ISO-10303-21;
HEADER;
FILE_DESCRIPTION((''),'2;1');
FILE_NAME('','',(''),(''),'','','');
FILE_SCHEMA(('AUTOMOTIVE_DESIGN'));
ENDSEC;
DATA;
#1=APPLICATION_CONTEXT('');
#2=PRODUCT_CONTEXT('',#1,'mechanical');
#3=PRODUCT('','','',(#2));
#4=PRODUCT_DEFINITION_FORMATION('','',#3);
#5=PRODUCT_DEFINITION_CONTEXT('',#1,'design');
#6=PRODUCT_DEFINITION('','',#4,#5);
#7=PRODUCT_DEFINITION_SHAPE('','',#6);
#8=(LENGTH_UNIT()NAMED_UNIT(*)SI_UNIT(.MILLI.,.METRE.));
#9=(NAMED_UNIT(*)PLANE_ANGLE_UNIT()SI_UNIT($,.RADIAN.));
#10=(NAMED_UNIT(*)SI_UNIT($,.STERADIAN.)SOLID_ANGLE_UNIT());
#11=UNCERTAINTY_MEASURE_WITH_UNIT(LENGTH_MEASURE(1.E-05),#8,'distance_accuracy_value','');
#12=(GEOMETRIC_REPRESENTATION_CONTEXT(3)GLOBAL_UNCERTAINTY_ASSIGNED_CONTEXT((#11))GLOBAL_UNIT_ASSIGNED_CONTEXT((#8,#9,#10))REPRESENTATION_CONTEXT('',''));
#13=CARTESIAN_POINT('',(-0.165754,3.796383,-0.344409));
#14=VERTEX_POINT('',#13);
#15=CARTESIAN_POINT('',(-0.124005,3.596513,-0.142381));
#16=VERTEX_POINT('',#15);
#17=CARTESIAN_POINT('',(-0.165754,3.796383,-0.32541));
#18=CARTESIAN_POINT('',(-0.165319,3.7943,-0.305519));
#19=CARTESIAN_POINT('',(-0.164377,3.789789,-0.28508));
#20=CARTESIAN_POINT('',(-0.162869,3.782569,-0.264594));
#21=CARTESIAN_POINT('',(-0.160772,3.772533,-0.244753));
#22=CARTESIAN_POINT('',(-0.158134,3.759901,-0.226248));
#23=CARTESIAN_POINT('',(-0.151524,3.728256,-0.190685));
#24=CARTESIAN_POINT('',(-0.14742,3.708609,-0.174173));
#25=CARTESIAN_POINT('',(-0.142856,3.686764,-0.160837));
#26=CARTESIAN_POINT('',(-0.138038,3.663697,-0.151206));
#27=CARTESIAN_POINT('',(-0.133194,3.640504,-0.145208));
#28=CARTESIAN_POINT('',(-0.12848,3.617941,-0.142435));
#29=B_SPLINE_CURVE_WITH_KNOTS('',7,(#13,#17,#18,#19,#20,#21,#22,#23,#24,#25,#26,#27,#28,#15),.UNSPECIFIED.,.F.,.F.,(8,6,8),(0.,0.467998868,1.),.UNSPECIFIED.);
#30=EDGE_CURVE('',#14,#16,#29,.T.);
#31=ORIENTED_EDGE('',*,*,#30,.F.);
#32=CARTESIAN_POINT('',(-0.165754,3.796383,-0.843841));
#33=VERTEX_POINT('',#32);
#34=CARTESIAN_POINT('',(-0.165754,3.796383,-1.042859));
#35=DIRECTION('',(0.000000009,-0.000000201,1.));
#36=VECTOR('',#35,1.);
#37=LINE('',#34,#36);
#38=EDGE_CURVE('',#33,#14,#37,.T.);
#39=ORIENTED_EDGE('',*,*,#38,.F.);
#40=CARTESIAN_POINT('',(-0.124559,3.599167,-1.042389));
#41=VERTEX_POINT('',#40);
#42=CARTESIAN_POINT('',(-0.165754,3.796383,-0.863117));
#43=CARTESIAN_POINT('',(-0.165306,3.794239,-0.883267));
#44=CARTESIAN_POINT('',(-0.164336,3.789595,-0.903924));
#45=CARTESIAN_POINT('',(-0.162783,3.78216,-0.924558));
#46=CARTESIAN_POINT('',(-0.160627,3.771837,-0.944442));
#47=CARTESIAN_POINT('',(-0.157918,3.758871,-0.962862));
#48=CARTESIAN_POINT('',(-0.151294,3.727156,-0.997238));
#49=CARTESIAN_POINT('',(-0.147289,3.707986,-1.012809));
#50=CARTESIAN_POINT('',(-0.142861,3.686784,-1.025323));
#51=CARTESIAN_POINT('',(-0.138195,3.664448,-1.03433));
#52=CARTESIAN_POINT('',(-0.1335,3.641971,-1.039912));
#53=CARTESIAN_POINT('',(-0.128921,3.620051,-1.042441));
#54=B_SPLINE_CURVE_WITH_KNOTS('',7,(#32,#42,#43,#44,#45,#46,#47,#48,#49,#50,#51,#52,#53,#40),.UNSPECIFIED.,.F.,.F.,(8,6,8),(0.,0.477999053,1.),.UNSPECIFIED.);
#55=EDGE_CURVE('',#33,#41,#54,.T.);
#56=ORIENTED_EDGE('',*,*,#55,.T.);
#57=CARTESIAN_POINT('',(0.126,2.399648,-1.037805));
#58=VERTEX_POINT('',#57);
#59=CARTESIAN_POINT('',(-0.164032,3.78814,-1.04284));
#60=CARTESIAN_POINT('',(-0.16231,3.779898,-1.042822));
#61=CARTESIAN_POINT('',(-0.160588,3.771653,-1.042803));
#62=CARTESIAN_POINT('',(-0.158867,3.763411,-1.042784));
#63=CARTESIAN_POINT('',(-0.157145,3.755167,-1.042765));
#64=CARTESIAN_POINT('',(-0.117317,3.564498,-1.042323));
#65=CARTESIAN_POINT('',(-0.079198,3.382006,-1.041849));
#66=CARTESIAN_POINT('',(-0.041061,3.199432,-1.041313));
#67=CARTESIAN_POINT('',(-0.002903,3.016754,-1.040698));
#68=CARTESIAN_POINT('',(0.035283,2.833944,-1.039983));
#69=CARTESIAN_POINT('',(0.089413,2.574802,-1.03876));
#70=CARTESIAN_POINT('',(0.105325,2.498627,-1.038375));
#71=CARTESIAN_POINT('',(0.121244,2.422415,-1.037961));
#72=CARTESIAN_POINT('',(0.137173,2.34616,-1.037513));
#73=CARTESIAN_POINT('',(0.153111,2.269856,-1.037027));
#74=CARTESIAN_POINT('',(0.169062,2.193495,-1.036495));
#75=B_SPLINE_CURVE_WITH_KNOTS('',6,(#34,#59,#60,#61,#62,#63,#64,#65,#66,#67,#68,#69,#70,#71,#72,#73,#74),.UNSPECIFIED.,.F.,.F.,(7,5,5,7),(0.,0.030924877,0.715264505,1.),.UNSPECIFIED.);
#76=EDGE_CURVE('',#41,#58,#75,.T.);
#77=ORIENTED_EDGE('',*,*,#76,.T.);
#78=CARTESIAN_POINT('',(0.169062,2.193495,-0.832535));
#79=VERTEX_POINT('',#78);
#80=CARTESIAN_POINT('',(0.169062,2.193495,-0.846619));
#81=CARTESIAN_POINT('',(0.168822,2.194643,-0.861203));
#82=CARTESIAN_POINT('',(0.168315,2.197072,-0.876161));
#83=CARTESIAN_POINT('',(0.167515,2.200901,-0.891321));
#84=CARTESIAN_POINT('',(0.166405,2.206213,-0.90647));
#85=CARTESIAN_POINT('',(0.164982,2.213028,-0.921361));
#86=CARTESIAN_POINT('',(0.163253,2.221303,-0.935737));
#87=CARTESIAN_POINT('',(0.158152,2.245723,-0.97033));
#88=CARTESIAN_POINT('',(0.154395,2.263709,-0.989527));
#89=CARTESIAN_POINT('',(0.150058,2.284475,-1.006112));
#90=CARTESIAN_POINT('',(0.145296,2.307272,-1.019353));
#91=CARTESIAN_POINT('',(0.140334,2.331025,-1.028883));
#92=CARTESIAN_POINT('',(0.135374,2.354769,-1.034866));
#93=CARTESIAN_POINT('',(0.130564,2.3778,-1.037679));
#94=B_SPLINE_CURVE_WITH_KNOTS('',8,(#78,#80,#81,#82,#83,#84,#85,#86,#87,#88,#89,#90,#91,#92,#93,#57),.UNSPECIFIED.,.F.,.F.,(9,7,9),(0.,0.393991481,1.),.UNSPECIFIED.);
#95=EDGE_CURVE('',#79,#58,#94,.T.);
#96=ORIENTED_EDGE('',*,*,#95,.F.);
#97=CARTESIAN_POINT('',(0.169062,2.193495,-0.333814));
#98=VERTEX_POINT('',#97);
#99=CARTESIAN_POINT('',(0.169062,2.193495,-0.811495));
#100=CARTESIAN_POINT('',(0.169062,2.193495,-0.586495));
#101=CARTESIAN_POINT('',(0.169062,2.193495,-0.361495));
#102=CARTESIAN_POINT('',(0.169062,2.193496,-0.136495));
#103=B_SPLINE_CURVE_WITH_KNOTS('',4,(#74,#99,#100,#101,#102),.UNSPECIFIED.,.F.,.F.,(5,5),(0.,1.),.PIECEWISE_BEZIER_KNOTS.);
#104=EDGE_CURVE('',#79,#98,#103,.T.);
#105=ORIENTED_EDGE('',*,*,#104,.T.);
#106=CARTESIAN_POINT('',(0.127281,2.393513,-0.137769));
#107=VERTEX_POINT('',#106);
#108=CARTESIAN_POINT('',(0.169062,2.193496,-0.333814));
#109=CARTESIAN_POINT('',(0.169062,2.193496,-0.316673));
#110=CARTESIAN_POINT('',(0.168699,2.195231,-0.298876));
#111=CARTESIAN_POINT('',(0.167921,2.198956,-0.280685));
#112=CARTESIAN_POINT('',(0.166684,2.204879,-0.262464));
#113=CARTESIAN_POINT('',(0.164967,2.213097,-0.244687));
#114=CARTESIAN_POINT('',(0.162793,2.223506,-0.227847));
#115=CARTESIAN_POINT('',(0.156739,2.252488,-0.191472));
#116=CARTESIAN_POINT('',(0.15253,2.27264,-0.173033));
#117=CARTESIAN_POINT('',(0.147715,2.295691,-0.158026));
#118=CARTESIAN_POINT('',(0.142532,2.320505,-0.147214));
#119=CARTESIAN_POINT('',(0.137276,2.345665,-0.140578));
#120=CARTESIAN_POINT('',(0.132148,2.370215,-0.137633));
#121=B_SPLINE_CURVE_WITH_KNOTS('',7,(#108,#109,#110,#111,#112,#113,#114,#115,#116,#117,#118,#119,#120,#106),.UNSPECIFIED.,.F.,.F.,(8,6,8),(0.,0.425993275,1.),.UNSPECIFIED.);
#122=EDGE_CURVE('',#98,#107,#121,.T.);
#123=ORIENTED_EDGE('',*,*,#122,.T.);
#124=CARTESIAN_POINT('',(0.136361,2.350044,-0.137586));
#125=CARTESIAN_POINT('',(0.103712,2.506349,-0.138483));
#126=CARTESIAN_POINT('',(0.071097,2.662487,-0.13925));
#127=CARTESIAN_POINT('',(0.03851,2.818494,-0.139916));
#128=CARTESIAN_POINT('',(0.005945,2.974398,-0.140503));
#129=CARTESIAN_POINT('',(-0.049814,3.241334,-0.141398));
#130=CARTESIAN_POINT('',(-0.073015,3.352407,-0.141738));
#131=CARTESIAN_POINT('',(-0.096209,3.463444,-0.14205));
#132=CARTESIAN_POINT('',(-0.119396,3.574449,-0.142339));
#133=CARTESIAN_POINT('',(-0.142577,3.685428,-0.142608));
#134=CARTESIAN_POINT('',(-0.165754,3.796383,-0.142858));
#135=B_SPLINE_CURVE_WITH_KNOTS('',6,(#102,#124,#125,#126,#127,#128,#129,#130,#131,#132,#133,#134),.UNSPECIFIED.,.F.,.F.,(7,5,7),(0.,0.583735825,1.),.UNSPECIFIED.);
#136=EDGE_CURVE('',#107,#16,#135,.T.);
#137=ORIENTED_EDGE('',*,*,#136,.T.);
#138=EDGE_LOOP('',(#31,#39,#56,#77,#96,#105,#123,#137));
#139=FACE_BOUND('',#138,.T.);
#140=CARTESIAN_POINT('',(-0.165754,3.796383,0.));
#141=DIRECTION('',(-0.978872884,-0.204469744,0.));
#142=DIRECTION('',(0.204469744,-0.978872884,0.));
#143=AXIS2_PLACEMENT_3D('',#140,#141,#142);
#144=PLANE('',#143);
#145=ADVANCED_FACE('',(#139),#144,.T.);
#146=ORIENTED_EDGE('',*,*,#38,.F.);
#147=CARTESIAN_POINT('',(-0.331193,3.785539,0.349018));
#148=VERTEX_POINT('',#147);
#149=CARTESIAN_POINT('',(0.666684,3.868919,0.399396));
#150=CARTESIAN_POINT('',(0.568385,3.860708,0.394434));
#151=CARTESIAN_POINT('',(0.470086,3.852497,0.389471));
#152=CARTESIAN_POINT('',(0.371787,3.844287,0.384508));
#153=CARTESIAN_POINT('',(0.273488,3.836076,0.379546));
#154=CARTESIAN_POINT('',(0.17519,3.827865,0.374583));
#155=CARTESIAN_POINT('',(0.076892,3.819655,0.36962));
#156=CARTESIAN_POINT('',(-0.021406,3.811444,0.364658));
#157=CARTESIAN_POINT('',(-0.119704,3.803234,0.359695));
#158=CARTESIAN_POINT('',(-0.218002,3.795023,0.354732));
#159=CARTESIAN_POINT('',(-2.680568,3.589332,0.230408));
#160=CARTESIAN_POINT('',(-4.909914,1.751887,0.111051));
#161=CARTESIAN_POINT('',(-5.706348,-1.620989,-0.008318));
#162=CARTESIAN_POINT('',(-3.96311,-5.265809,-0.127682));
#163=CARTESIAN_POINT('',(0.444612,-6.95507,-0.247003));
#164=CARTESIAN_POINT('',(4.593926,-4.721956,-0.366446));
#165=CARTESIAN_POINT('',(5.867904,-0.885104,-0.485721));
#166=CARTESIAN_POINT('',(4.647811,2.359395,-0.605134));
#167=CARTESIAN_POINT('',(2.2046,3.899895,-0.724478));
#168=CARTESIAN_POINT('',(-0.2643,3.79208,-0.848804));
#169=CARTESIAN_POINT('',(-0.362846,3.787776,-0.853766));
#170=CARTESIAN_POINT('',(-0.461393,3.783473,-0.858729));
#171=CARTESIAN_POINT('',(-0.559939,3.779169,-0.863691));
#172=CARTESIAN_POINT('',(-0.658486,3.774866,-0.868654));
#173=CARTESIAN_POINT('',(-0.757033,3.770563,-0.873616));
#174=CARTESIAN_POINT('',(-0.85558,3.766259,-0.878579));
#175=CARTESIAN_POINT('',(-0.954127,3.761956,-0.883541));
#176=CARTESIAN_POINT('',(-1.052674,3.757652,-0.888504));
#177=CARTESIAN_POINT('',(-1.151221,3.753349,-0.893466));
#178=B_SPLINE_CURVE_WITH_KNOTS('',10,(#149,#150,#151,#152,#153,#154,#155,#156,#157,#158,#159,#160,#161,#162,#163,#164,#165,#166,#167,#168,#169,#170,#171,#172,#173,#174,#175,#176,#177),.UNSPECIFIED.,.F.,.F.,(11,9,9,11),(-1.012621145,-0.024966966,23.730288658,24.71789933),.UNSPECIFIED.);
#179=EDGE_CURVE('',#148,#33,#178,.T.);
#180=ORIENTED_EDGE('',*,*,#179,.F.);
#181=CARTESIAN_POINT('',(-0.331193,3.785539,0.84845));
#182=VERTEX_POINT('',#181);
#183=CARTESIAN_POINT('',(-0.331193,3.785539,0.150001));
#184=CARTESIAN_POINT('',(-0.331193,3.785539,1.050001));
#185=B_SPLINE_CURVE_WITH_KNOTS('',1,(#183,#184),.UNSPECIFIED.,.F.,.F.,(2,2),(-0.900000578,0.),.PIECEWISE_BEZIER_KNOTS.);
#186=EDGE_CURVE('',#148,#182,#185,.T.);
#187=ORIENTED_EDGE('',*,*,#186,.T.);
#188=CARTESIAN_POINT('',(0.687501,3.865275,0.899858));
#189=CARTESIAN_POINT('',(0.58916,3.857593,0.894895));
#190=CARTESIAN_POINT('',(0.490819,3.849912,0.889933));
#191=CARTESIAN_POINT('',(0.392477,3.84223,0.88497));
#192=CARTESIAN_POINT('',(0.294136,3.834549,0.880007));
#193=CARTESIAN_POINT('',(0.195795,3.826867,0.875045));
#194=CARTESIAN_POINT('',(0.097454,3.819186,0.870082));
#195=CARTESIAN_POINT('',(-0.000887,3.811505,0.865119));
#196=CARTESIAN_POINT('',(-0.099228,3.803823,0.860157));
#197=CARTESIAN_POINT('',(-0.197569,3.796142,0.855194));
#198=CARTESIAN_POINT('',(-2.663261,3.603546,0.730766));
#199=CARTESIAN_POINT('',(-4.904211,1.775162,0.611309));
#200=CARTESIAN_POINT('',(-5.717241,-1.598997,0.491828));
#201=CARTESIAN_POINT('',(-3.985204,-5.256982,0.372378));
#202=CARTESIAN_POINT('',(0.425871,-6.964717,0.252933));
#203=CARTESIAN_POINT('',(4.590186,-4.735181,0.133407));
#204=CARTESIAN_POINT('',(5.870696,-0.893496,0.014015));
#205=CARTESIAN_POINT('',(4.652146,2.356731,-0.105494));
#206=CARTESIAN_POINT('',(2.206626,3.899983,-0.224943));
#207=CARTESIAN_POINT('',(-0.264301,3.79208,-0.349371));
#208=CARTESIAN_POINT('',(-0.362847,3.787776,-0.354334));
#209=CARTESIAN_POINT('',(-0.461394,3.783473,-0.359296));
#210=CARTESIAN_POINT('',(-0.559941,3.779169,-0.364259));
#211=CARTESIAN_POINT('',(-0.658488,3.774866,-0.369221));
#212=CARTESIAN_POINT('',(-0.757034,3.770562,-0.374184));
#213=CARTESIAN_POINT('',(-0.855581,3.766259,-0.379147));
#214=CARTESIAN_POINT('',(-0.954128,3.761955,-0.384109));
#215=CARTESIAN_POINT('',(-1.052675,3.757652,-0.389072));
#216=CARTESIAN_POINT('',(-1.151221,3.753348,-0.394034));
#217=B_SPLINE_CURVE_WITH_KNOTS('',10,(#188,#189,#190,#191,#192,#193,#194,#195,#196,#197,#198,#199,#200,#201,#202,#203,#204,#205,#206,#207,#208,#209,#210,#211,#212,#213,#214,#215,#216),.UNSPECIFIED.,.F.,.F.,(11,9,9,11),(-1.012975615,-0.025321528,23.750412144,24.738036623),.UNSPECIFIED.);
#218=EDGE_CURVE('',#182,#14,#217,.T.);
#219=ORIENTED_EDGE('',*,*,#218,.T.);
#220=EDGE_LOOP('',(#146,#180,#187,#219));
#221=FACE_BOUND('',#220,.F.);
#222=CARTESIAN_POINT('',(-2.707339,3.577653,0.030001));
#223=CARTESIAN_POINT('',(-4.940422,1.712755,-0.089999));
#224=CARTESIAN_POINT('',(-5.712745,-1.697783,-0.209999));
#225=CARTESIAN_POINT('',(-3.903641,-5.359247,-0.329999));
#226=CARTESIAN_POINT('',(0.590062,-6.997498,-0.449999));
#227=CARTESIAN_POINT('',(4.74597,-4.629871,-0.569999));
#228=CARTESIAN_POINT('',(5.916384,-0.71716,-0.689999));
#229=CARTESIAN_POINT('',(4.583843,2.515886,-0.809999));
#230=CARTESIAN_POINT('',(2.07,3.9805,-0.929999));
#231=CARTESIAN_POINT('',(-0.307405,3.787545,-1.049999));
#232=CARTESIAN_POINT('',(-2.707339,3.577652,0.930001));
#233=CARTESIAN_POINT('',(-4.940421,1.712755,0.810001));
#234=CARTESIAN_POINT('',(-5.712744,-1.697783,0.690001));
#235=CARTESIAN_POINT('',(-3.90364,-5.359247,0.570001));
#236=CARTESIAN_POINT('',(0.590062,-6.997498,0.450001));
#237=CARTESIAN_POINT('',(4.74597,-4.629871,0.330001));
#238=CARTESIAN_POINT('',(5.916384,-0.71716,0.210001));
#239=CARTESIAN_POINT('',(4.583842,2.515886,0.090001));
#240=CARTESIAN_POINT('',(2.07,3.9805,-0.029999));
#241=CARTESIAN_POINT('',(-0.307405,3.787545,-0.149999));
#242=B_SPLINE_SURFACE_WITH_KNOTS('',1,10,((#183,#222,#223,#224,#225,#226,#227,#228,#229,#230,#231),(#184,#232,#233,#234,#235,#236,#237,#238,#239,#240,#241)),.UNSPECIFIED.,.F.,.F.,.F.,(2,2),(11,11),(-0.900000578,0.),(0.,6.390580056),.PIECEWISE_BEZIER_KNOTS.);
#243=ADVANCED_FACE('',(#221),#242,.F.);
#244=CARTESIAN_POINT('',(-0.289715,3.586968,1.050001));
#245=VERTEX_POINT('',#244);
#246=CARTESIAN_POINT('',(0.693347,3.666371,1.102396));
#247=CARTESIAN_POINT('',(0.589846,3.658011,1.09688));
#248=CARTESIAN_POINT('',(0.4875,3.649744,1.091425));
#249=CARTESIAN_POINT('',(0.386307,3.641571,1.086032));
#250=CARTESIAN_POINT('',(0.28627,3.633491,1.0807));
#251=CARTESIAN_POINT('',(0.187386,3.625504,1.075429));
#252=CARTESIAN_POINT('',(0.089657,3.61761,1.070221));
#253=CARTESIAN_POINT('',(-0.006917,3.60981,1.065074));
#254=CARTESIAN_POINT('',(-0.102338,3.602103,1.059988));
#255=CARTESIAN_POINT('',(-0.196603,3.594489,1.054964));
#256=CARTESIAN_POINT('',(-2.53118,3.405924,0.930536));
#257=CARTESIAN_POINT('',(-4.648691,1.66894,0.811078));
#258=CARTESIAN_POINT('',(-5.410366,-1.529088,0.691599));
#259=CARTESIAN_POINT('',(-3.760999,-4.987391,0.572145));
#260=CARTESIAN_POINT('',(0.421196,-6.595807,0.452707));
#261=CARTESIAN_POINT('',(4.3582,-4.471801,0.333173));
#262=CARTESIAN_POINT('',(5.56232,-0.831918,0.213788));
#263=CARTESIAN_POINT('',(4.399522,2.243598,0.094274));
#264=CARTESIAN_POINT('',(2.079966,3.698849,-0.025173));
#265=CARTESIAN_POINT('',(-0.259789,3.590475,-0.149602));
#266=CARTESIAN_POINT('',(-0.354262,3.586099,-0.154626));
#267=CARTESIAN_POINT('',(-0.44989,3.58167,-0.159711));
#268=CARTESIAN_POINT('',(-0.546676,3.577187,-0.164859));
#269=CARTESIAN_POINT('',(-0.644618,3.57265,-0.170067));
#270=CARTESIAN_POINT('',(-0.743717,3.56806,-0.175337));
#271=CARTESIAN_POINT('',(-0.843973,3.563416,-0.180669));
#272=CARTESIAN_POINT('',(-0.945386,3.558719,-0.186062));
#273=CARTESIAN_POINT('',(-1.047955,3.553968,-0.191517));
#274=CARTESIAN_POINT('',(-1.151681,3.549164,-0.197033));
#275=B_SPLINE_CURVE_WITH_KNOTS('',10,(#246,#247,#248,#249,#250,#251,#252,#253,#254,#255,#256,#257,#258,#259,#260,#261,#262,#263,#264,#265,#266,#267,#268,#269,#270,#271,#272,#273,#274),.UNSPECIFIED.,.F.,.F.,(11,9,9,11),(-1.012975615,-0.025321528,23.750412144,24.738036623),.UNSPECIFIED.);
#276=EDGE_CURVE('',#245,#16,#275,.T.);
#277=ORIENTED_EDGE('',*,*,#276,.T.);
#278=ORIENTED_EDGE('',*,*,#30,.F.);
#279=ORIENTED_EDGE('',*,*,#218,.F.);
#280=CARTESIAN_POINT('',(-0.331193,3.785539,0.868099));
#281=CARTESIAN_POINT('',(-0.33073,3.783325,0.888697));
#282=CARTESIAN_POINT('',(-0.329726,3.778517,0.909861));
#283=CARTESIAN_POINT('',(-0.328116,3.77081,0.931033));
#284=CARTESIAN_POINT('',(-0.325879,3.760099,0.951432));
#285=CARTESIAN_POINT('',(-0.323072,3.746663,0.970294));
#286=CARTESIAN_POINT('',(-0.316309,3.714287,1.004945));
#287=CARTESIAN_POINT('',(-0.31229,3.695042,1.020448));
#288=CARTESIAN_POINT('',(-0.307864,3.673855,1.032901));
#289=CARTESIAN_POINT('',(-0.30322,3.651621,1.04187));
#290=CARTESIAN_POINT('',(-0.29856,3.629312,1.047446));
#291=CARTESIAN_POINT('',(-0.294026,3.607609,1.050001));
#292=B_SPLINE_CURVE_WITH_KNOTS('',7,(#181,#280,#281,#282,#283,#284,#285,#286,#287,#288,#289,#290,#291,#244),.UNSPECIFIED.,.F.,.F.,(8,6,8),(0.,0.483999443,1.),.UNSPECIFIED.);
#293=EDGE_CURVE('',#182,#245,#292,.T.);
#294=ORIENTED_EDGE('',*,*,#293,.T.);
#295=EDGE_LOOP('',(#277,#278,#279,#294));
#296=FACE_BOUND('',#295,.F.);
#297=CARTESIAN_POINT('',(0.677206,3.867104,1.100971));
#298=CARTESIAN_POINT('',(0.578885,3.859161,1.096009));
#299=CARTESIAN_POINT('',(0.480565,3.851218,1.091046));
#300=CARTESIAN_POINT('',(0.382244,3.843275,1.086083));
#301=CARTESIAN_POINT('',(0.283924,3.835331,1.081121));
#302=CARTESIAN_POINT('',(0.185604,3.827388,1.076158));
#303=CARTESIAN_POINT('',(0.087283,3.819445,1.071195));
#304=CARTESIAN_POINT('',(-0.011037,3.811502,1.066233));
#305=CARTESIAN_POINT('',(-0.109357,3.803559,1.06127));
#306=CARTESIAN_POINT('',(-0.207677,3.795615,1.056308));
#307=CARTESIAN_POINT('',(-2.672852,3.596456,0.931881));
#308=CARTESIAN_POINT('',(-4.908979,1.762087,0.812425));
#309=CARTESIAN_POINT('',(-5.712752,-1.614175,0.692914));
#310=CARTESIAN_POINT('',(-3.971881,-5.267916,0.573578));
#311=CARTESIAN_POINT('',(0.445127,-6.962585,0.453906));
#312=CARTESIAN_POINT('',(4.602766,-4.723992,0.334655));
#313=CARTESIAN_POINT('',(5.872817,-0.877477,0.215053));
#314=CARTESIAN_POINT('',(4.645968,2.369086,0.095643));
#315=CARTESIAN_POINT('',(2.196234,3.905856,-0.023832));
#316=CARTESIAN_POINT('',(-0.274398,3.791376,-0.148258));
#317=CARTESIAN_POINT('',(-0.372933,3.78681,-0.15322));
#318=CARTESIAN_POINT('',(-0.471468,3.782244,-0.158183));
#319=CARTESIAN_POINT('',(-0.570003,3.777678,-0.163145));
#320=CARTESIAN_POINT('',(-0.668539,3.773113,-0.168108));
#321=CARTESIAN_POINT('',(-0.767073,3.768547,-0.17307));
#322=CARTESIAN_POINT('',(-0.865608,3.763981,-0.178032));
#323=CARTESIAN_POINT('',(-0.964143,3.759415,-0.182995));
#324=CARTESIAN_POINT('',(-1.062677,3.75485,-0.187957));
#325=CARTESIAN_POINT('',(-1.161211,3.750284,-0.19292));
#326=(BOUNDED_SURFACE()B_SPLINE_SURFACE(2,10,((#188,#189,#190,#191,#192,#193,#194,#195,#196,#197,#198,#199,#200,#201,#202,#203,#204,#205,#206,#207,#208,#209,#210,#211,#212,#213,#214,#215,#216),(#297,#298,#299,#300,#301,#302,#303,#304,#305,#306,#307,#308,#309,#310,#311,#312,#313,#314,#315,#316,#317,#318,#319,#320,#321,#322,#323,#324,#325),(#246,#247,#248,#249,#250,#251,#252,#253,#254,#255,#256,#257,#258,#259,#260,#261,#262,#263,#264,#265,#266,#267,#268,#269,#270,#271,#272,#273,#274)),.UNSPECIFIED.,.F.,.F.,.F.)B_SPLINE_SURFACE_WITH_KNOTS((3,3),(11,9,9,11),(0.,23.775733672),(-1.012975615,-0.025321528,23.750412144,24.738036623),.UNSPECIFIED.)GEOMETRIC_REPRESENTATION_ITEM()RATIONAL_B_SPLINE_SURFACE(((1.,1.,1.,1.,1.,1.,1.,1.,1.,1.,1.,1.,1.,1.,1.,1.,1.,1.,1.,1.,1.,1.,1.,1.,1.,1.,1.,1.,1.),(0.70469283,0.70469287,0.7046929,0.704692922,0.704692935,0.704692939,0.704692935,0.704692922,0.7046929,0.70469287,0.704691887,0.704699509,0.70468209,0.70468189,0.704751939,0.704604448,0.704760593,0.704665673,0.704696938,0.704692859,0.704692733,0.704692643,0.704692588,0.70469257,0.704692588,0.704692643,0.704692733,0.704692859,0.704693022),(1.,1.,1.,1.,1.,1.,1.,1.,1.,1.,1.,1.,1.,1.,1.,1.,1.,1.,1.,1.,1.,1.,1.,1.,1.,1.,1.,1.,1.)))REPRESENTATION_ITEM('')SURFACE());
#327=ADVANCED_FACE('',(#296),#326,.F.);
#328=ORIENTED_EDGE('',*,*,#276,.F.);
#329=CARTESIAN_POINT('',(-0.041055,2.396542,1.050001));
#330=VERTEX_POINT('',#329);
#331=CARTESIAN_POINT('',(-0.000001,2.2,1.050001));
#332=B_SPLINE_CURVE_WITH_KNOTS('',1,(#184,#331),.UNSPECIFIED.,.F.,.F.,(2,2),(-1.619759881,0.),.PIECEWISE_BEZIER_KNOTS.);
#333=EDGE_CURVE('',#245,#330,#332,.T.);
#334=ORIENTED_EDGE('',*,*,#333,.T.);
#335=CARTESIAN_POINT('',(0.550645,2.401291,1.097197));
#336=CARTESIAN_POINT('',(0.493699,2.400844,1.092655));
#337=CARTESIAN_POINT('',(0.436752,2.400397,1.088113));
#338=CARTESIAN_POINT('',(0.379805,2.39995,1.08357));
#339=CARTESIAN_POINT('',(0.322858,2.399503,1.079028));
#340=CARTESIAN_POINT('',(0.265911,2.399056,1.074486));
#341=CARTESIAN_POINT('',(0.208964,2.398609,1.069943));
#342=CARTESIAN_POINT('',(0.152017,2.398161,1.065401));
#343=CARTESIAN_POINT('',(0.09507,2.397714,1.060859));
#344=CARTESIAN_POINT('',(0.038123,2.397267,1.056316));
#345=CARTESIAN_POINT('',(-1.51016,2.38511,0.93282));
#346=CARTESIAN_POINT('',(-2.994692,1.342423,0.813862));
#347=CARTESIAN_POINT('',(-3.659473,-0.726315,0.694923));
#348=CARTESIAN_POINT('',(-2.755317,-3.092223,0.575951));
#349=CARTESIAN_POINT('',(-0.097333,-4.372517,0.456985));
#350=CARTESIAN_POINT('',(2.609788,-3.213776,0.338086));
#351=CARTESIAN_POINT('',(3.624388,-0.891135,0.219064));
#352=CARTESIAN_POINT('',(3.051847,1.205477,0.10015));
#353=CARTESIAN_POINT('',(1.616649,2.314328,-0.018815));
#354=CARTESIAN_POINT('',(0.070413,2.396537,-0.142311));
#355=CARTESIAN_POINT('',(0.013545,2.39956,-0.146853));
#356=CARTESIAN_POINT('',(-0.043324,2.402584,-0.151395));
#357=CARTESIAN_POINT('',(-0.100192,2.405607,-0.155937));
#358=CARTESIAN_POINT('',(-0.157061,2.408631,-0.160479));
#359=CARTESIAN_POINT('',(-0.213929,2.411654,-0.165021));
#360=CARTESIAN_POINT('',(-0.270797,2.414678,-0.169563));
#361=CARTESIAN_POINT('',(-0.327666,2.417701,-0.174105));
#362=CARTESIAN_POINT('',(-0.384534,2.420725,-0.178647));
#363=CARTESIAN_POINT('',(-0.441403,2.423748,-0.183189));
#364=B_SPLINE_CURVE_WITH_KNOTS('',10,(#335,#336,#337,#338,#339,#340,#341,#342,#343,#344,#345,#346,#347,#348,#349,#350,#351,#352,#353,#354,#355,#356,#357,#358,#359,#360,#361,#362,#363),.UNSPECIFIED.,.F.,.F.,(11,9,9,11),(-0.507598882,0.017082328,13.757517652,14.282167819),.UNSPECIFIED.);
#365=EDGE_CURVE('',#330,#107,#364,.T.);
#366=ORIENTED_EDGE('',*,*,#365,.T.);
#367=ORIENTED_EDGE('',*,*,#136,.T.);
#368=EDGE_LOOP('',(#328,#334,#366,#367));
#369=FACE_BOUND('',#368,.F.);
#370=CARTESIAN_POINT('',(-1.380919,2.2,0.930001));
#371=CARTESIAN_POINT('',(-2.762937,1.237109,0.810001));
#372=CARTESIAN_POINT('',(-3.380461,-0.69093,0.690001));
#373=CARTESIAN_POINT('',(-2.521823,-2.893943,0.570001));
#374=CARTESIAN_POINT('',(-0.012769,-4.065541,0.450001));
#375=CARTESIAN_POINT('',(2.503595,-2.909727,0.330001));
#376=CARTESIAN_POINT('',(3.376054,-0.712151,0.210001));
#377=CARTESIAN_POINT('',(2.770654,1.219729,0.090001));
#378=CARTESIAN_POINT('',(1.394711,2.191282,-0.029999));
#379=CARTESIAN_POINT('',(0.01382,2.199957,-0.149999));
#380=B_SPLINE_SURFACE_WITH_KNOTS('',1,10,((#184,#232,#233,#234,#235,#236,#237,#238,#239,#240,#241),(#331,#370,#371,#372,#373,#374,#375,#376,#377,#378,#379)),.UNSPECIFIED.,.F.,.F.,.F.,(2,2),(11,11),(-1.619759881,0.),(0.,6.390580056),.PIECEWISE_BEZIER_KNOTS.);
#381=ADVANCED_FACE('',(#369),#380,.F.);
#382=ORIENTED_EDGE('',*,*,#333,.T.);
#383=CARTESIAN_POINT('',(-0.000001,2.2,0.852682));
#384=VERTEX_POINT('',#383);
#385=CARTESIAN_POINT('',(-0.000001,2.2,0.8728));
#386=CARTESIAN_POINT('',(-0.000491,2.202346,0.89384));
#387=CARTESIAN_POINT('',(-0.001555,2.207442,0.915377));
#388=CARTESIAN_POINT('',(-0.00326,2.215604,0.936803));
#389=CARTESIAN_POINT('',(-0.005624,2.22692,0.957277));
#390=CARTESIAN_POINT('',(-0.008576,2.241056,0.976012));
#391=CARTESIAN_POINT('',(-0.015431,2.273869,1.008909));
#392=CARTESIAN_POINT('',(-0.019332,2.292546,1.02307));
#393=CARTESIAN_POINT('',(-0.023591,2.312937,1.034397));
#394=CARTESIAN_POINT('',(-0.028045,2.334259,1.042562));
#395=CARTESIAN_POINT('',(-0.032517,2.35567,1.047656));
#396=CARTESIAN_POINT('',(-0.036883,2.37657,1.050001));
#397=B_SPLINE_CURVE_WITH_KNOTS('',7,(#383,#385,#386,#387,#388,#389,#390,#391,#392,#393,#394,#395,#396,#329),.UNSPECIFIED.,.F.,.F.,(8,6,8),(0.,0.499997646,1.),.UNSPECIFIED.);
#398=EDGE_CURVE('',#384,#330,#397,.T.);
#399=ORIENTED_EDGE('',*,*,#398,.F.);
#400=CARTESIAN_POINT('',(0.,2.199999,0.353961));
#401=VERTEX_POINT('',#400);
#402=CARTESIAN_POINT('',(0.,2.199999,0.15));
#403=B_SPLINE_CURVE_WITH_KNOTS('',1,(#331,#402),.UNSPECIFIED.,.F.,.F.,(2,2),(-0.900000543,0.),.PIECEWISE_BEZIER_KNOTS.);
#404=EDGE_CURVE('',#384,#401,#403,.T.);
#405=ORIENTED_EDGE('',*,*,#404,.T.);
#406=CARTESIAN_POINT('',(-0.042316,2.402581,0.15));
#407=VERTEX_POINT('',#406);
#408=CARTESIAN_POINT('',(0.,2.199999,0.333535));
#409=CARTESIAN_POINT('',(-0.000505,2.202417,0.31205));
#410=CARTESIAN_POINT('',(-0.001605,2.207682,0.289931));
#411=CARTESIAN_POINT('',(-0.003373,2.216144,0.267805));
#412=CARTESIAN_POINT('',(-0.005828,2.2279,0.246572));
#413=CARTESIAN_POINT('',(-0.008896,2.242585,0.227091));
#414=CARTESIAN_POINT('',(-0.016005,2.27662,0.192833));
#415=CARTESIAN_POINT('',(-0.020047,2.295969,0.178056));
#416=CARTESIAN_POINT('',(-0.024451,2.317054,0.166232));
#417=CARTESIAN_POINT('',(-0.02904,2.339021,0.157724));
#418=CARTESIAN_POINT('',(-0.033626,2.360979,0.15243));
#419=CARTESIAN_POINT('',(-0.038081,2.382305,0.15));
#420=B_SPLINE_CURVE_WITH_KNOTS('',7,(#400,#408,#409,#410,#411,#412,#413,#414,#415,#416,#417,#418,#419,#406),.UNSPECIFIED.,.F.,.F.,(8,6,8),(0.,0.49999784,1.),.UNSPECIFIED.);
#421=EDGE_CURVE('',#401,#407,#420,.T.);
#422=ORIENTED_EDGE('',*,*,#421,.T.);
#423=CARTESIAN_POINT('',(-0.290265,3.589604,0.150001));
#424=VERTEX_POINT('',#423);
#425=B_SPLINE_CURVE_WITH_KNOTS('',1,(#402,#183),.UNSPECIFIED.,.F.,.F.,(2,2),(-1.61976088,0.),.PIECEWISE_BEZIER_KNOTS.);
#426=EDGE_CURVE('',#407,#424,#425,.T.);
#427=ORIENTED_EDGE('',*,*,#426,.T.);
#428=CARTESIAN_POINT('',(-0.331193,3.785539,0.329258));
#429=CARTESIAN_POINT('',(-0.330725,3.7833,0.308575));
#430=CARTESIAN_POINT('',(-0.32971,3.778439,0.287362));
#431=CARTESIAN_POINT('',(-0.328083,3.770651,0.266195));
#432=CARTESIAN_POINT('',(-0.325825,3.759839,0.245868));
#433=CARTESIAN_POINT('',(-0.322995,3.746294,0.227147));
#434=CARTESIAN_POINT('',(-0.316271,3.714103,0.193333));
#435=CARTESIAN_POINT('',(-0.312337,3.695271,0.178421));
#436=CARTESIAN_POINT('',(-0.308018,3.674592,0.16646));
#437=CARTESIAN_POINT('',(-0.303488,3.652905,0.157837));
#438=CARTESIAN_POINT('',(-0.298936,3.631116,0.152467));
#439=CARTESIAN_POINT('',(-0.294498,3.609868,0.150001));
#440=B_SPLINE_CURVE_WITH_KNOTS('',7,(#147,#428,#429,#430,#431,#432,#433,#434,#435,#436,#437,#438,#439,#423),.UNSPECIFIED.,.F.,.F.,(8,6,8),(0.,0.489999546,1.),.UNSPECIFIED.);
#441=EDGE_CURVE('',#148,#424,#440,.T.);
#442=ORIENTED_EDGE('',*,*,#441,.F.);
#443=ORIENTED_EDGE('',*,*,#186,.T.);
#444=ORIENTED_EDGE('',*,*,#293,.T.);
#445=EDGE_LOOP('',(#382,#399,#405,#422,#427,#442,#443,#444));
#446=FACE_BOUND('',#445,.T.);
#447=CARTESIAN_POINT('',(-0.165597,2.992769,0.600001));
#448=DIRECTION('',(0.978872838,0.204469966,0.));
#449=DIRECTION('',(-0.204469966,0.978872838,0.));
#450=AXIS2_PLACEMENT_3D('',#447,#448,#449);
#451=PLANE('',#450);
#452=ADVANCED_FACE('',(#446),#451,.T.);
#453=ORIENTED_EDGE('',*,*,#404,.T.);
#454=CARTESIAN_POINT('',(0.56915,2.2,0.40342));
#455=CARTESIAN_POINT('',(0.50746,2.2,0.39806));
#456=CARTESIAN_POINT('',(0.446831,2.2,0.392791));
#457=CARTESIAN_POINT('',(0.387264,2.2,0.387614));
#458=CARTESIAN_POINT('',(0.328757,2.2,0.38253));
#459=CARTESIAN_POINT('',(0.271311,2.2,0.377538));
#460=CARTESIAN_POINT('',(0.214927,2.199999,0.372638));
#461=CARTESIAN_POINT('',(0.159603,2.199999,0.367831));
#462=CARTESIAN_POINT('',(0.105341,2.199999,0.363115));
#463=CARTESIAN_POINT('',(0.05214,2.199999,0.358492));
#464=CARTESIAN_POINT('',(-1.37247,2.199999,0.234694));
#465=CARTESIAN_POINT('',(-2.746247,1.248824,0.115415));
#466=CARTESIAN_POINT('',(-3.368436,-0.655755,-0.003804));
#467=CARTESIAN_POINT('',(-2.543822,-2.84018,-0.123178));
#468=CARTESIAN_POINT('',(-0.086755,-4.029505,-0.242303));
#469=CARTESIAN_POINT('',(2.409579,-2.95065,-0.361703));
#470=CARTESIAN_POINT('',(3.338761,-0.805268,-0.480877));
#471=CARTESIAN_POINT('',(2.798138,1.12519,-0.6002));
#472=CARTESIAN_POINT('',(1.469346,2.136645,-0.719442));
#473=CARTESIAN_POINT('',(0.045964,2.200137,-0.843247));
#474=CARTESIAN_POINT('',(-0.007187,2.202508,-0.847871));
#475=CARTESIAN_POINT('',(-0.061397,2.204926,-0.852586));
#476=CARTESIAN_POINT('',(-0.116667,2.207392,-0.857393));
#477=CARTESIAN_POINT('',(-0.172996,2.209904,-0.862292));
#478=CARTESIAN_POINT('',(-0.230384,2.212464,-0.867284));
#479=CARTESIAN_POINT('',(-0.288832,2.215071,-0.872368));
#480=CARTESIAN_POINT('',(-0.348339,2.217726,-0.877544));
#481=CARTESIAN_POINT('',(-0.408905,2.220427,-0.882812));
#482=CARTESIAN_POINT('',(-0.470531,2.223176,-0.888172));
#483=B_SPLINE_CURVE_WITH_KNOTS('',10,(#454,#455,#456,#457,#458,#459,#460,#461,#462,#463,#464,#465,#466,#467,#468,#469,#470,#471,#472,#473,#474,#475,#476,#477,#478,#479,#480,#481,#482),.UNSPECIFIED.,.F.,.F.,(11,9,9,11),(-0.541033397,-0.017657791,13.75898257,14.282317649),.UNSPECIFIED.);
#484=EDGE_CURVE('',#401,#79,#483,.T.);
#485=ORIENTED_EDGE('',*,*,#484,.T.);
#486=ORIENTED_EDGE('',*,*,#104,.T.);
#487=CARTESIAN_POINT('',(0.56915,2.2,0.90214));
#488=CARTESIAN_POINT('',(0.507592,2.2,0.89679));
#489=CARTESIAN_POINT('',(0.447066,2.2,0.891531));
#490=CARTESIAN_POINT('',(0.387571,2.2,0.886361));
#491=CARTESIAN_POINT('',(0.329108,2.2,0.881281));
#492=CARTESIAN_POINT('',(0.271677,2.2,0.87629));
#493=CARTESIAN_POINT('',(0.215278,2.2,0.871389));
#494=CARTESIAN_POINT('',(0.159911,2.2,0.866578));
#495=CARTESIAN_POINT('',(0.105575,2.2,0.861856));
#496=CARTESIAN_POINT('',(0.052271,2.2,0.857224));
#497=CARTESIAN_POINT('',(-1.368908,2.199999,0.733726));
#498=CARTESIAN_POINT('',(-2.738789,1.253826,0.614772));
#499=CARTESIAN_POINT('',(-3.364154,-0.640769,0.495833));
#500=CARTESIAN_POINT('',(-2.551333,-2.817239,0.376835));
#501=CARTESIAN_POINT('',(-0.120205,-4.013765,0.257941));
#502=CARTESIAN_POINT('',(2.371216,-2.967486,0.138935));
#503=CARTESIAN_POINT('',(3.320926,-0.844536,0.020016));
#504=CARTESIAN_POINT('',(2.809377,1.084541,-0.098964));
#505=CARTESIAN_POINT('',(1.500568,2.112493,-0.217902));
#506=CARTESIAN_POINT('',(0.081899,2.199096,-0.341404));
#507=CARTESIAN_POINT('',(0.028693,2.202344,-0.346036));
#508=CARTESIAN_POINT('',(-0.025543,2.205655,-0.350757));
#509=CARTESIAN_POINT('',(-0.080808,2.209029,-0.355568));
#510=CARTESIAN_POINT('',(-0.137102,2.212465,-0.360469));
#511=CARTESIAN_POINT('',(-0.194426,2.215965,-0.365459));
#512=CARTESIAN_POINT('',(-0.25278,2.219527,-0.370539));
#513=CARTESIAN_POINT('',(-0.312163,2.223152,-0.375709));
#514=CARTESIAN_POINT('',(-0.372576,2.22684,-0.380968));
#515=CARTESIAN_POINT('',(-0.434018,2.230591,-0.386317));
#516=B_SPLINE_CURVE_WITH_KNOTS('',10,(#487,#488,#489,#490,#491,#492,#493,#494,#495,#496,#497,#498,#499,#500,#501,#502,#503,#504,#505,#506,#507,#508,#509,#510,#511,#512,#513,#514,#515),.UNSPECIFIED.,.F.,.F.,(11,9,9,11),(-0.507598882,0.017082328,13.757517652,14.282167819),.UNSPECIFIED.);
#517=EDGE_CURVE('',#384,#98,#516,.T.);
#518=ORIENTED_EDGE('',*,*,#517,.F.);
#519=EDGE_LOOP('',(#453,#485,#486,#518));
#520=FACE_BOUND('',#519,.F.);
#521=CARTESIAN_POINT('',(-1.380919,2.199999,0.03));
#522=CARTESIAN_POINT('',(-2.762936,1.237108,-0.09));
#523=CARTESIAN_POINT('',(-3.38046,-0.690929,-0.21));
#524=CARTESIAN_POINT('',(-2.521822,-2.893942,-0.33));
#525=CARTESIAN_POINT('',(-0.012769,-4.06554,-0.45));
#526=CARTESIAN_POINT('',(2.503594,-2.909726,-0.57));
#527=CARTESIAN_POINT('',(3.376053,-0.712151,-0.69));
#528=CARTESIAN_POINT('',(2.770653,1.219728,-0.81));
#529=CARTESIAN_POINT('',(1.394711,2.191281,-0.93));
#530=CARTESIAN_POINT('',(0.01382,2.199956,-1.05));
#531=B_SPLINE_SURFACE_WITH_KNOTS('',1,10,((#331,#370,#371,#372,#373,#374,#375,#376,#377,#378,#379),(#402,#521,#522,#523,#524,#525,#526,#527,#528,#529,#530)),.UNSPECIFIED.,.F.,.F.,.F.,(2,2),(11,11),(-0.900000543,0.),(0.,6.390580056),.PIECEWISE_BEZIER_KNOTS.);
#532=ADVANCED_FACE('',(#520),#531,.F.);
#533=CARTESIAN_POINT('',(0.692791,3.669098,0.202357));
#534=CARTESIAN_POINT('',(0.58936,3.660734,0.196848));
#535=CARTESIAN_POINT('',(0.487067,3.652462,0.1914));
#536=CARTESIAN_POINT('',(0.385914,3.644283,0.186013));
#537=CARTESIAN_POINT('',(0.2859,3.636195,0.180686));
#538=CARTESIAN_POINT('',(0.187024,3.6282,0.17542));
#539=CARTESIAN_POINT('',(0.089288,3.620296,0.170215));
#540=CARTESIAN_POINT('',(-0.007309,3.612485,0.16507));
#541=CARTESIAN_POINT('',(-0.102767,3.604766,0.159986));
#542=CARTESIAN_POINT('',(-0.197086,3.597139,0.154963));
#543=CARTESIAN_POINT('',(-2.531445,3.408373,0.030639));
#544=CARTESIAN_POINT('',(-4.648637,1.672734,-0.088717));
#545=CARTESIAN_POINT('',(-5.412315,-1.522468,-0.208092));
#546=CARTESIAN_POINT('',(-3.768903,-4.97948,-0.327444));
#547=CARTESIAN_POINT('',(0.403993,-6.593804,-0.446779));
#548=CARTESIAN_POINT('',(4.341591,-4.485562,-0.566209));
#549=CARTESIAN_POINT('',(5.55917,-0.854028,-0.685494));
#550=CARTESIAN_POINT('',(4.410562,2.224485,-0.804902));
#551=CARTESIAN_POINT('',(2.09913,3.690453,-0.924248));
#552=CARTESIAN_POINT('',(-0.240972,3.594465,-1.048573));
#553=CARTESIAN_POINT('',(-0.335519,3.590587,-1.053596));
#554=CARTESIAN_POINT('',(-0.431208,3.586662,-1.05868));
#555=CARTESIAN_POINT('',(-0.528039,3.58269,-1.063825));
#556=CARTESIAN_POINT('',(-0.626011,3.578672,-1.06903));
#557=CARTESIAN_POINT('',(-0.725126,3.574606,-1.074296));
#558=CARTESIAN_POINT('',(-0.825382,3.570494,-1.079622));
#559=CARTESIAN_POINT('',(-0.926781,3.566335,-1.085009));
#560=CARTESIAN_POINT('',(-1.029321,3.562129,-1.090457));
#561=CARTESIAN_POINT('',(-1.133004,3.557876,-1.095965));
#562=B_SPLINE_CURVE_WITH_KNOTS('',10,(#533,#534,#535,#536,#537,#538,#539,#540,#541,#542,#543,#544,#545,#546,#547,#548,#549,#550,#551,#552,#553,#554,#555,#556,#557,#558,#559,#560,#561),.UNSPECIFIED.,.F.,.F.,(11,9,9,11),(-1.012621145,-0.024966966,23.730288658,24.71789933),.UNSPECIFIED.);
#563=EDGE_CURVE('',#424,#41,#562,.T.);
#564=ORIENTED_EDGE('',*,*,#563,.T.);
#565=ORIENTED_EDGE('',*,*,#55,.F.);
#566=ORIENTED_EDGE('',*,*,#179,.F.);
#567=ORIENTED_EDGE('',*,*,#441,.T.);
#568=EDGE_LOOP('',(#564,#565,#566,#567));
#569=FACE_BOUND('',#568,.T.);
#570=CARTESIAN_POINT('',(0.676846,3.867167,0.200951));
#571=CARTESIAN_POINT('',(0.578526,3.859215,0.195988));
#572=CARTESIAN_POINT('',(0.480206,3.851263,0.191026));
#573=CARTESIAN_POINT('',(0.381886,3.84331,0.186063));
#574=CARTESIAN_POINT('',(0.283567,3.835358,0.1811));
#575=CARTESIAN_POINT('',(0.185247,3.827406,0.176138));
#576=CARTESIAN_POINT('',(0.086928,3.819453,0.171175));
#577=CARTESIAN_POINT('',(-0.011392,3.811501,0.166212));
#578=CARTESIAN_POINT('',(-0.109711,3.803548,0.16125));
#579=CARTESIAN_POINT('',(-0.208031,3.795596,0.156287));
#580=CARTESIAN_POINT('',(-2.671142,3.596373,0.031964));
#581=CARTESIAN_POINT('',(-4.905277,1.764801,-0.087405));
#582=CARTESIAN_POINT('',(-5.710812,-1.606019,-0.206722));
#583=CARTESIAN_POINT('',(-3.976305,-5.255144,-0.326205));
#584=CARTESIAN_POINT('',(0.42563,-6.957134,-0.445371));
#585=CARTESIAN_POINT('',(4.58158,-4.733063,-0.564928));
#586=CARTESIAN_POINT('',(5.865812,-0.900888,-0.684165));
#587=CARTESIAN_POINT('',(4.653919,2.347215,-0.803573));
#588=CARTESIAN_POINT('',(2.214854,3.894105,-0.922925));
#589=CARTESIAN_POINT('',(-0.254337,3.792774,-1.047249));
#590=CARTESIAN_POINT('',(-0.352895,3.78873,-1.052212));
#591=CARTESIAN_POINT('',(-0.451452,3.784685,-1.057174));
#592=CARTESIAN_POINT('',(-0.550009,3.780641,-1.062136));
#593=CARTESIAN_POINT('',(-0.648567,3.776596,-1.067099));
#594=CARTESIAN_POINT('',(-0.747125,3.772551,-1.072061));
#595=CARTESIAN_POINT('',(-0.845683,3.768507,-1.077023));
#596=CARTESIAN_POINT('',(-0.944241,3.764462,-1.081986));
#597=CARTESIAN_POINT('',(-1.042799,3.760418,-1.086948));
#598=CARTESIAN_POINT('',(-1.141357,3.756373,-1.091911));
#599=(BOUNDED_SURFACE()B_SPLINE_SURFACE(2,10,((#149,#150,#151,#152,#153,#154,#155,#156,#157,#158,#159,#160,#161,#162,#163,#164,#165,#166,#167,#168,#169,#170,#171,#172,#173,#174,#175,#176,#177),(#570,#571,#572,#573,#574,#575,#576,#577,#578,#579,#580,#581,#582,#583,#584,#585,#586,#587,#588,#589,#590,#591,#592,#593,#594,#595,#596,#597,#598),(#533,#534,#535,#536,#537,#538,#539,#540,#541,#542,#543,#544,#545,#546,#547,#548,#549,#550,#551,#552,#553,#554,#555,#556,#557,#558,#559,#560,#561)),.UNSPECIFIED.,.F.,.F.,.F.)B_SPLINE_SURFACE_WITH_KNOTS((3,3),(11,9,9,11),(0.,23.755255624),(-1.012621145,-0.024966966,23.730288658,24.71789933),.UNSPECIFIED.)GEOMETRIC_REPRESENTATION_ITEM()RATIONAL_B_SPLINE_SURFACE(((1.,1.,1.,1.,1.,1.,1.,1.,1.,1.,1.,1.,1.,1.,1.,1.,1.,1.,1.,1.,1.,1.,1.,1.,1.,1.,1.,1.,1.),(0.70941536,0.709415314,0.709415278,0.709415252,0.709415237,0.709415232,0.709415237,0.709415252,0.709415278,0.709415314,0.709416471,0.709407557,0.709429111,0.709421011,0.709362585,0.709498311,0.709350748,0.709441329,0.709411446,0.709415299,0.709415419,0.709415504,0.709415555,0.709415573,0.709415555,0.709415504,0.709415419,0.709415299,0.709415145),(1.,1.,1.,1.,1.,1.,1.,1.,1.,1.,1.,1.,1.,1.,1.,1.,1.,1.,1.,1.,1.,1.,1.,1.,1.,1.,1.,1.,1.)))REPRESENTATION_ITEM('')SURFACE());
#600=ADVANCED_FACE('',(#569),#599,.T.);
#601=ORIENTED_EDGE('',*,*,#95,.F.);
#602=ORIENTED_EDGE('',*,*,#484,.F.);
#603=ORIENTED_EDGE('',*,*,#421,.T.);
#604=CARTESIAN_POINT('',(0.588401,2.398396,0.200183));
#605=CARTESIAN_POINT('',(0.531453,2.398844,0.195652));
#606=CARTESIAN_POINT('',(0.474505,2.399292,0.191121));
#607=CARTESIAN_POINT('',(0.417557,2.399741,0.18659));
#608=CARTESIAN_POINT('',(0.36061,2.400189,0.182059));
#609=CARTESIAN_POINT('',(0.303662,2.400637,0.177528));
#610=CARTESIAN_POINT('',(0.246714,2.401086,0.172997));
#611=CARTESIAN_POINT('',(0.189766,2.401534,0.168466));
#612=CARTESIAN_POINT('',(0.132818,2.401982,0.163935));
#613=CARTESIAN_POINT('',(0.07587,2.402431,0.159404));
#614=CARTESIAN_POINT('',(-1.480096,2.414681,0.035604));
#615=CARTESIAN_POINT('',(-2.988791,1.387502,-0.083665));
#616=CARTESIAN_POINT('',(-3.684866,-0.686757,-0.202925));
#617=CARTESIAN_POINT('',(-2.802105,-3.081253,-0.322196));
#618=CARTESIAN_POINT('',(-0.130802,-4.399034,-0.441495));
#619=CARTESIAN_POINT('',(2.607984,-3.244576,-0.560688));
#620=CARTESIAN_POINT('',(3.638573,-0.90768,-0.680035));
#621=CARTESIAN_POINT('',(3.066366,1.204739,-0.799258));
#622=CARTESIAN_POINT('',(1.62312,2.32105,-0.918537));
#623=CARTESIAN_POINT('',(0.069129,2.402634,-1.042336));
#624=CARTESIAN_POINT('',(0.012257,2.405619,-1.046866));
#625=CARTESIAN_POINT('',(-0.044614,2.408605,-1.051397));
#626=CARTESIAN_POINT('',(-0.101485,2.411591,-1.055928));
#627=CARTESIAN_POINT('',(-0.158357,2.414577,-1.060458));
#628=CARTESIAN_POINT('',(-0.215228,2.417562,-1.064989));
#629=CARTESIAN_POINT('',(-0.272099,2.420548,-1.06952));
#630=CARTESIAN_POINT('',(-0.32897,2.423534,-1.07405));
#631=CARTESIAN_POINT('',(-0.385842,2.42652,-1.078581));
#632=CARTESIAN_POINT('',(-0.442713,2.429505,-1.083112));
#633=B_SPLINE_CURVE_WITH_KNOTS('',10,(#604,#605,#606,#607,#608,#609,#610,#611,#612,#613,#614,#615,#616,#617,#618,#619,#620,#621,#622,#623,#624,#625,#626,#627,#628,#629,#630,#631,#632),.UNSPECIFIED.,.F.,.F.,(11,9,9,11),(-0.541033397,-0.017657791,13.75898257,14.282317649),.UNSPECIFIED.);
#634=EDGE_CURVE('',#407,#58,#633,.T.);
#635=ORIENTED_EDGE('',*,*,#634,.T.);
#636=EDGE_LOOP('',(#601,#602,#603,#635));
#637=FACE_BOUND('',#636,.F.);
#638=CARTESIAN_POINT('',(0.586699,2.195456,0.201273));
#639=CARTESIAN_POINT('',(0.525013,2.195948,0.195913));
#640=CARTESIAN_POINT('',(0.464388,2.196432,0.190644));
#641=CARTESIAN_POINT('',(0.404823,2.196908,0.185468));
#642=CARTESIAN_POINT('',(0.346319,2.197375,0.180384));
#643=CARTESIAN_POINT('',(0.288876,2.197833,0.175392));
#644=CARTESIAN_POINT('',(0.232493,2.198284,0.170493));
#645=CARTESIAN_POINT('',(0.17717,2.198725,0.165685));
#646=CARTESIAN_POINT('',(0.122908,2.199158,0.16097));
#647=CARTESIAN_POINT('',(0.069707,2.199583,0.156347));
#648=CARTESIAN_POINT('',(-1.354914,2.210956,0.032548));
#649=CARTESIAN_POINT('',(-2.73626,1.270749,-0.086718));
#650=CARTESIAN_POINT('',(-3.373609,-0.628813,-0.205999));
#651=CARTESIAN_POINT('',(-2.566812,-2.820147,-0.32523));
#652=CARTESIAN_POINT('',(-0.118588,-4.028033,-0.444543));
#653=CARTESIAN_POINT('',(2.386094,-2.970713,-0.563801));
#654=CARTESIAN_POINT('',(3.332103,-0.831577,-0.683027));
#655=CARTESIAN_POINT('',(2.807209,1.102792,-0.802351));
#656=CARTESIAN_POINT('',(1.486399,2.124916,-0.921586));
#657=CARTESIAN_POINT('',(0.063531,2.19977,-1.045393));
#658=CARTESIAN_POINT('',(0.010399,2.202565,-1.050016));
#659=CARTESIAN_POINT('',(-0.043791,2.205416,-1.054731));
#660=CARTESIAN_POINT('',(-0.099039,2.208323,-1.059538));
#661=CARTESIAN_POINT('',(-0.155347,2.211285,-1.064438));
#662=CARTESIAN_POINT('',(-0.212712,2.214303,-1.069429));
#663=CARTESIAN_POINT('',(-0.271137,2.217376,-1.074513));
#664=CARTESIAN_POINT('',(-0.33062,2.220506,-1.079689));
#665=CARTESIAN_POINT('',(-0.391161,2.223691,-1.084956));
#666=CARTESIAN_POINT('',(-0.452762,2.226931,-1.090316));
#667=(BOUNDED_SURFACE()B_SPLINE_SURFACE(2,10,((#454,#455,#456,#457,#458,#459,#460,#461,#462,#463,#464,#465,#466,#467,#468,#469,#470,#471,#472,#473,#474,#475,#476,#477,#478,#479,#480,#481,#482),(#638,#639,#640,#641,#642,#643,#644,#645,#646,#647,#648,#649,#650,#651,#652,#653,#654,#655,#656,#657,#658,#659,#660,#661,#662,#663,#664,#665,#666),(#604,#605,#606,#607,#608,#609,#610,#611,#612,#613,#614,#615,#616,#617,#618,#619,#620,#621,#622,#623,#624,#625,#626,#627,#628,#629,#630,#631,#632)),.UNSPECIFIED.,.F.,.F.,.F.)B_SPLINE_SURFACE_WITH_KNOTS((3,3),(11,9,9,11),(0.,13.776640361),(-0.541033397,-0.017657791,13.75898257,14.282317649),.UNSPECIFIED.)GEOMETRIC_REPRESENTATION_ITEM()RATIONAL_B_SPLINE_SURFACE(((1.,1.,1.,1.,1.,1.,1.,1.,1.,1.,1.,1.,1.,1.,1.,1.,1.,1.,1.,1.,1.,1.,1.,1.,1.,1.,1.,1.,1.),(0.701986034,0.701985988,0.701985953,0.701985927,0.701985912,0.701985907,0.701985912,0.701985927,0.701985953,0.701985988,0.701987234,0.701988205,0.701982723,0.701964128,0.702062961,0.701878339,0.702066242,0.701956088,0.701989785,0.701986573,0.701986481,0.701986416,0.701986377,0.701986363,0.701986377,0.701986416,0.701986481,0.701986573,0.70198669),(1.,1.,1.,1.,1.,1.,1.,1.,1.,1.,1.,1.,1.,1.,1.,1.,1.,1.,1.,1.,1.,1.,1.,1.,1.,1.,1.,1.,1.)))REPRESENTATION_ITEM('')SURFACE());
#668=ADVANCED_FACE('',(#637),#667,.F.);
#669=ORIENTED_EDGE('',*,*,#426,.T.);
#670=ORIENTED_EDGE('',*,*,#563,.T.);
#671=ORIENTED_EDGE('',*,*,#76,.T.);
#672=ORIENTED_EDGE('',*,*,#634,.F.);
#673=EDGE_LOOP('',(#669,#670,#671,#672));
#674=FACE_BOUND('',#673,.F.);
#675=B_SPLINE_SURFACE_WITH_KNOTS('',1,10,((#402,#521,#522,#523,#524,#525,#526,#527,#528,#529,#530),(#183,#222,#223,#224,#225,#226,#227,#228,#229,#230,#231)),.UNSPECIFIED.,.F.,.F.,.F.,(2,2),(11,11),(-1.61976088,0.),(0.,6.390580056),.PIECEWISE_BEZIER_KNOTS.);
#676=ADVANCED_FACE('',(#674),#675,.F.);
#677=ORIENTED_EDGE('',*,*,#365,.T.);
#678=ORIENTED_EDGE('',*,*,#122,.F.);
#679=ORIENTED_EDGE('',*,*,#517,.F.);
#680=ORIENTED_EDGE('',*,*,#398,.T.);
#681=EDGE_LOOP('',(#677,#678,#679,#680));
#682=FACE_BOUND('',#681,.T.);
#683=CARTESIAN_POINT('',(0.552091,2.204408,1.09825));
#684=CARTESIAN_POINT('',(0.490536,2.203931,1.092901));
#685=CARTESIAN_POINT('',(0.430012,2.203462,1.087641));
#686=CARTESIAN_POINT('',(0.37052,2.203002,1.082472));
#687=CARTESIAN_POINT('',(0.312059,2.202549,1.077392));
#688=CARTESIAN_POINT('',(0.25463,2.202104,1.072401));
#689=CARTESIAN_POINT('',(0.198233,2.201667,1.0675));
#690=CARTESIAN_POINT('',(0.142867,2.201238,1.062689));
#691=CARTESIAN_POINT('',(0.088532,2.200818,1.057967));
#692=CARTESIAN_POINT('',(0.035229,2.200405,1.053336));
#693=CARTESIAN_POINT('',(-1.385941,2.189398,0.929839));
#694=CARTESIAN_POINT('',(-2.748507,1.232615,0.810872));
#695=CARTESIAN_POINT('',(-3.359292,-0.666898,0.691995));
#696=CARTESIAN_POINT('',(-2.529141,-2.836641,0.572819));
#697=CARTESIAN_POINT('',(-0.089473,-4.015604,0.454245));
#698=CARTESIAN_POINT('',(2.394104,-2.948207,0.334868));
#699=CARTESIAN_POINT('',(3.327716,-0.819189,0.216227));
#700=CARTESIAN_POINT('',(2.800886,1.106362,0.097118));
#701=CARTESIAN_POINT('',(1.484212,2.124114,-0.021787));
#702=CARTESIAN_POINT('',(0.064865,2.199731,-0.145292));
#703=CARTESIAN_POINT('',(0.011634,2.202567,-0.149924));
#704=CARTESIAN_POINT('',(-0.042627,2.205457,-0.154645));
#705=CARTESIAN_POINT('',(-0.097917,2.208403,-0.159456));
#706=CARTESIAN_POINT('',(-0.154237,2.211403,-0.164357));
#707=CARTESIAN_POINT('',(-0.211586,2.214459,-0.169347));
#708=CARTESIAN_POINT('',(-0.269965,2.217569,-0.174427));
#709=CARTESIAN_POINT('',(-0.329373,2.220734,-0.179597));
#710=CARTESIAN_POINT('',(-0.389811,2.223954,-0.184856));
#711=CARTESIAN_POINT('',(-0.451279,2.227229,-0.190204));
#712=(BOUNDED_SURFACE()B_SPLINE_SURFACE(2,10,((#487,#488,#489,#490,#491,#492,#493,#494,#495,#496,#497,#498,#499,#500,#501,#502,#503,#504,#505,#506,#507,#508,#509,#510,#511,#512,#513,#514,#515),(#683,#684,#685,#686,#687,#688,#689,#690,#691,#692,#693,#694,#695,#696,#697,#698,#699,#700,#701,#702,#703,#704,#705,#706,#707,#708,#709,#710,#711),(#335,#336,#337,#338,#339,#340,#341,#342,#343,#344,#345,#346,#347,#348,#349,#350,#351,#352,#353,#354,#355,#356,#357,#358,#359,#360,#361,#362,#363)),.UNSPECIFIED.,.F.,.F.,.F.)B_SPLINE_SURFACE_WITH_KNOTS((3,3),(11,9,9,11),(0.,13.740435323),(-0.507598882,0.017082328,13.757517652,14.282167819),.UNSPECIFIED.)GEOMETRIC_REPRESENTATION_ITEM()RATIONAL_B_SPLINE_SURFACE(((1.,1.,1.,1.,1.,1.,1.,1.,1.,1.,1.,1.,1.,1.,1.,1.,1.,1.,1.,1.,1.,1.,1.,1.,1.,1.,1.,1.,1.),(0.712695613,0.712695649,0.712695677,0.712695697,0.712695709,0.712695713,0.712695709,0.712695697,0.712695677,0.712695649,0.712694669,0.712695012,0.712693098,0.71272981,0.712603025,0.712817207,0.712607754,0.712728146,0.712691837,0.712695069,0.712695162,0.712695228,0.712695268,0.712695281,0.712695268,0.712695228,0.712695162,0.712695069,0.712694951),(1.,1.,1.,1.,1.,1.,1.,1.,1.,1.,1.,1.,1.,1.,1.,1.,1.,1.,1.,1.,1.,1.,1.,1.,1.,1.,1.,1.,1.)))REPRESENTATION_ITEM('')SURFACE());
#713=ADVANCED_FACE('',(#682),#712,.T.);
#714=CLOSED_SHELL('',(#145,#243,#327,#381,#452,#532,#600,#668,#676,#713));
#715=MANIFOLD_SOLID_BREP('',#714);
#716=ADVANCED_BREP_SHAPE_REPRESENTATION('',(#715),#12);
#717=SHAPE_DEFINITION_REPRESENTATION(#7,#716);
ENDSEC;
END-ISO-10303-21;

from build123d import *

# Parameters (mm, degrees)
SWEEP1_PITCH       = 1.201201
SWEEP1_HEIGHT      = 1.2
SWEEP1_RADIUS      = 3.8
SWEEP1_START_ANGLE = 85
CUT_EXTRUDE1_DEPTH = 2.05
FILLET1_R          = 0.2


with BuildPart() as part:
    # Sweep1: sweep along a helix
    with BuildLine() as sweep1_path:
        add(Helix(SWEEP1_PITCH, SWEEP1_HEIGHT, SWEEP1_RADIUS, center=(0, 0, 0.6), direction=(0, 0, -1), lefthand=True, mode=Mode.PRIVATE).rotate(Axis((0, 0, 0.6), (0, 0, -1)), SWEEP1_START_ANGLE))
    # Sketch4 → Sweep1 (sweep)
    with BuildSketch(Plane(origin=(0.469922, -0.049692, 0.005065), x_dir=(0.007151, -0.034234, -0.999388), z_dir=(0.978873, 0.20447, 0))):
        Polygon((-1.181321, 3.879066), (-0.281871, 3.910542), (-0.225223, 2.291772), (-1.124673, 2.260297), align=None)
    sweep(path=sweep1_path.line, is_frenet=True)

    # Sketch5 → Cut-Extrude1 (cut, through all)
    with BuildSketch(Plane.XY):
        with BuildLine():
            Line((0, 2.2), (-0.331192, 3.78554))
            ThreePointArc((-0.331192, 3.78554), (-0.248532, 3.791864), (-0.165754, 3.796383))
            Line((-0.165754, 3.796383), (0.169062, 2.193494))
            ThreePointArc((0.169062, 2.193494), (0.084594, 2.198373), (0, 2.2))
        make_face()
    extrude(amount=-CUT_EXTRUDE1_DEPTH, mode=Mode.SUBTRACT)

    # Fillet1
    fillet1_edges = [part.edges().sort_by_distance(p)[0] for p in [
        (0.248532, -3.79186, 0.45357),
        (0.248532, -3.79186, -0.44643),
        (-0.084593, -2.198371, 0.456752),
        (-0.084593, -2.198371, -0.443248),
    ]]
    fillet(fillet1_edges, radius=FILLET1_R)


solid = part.part
